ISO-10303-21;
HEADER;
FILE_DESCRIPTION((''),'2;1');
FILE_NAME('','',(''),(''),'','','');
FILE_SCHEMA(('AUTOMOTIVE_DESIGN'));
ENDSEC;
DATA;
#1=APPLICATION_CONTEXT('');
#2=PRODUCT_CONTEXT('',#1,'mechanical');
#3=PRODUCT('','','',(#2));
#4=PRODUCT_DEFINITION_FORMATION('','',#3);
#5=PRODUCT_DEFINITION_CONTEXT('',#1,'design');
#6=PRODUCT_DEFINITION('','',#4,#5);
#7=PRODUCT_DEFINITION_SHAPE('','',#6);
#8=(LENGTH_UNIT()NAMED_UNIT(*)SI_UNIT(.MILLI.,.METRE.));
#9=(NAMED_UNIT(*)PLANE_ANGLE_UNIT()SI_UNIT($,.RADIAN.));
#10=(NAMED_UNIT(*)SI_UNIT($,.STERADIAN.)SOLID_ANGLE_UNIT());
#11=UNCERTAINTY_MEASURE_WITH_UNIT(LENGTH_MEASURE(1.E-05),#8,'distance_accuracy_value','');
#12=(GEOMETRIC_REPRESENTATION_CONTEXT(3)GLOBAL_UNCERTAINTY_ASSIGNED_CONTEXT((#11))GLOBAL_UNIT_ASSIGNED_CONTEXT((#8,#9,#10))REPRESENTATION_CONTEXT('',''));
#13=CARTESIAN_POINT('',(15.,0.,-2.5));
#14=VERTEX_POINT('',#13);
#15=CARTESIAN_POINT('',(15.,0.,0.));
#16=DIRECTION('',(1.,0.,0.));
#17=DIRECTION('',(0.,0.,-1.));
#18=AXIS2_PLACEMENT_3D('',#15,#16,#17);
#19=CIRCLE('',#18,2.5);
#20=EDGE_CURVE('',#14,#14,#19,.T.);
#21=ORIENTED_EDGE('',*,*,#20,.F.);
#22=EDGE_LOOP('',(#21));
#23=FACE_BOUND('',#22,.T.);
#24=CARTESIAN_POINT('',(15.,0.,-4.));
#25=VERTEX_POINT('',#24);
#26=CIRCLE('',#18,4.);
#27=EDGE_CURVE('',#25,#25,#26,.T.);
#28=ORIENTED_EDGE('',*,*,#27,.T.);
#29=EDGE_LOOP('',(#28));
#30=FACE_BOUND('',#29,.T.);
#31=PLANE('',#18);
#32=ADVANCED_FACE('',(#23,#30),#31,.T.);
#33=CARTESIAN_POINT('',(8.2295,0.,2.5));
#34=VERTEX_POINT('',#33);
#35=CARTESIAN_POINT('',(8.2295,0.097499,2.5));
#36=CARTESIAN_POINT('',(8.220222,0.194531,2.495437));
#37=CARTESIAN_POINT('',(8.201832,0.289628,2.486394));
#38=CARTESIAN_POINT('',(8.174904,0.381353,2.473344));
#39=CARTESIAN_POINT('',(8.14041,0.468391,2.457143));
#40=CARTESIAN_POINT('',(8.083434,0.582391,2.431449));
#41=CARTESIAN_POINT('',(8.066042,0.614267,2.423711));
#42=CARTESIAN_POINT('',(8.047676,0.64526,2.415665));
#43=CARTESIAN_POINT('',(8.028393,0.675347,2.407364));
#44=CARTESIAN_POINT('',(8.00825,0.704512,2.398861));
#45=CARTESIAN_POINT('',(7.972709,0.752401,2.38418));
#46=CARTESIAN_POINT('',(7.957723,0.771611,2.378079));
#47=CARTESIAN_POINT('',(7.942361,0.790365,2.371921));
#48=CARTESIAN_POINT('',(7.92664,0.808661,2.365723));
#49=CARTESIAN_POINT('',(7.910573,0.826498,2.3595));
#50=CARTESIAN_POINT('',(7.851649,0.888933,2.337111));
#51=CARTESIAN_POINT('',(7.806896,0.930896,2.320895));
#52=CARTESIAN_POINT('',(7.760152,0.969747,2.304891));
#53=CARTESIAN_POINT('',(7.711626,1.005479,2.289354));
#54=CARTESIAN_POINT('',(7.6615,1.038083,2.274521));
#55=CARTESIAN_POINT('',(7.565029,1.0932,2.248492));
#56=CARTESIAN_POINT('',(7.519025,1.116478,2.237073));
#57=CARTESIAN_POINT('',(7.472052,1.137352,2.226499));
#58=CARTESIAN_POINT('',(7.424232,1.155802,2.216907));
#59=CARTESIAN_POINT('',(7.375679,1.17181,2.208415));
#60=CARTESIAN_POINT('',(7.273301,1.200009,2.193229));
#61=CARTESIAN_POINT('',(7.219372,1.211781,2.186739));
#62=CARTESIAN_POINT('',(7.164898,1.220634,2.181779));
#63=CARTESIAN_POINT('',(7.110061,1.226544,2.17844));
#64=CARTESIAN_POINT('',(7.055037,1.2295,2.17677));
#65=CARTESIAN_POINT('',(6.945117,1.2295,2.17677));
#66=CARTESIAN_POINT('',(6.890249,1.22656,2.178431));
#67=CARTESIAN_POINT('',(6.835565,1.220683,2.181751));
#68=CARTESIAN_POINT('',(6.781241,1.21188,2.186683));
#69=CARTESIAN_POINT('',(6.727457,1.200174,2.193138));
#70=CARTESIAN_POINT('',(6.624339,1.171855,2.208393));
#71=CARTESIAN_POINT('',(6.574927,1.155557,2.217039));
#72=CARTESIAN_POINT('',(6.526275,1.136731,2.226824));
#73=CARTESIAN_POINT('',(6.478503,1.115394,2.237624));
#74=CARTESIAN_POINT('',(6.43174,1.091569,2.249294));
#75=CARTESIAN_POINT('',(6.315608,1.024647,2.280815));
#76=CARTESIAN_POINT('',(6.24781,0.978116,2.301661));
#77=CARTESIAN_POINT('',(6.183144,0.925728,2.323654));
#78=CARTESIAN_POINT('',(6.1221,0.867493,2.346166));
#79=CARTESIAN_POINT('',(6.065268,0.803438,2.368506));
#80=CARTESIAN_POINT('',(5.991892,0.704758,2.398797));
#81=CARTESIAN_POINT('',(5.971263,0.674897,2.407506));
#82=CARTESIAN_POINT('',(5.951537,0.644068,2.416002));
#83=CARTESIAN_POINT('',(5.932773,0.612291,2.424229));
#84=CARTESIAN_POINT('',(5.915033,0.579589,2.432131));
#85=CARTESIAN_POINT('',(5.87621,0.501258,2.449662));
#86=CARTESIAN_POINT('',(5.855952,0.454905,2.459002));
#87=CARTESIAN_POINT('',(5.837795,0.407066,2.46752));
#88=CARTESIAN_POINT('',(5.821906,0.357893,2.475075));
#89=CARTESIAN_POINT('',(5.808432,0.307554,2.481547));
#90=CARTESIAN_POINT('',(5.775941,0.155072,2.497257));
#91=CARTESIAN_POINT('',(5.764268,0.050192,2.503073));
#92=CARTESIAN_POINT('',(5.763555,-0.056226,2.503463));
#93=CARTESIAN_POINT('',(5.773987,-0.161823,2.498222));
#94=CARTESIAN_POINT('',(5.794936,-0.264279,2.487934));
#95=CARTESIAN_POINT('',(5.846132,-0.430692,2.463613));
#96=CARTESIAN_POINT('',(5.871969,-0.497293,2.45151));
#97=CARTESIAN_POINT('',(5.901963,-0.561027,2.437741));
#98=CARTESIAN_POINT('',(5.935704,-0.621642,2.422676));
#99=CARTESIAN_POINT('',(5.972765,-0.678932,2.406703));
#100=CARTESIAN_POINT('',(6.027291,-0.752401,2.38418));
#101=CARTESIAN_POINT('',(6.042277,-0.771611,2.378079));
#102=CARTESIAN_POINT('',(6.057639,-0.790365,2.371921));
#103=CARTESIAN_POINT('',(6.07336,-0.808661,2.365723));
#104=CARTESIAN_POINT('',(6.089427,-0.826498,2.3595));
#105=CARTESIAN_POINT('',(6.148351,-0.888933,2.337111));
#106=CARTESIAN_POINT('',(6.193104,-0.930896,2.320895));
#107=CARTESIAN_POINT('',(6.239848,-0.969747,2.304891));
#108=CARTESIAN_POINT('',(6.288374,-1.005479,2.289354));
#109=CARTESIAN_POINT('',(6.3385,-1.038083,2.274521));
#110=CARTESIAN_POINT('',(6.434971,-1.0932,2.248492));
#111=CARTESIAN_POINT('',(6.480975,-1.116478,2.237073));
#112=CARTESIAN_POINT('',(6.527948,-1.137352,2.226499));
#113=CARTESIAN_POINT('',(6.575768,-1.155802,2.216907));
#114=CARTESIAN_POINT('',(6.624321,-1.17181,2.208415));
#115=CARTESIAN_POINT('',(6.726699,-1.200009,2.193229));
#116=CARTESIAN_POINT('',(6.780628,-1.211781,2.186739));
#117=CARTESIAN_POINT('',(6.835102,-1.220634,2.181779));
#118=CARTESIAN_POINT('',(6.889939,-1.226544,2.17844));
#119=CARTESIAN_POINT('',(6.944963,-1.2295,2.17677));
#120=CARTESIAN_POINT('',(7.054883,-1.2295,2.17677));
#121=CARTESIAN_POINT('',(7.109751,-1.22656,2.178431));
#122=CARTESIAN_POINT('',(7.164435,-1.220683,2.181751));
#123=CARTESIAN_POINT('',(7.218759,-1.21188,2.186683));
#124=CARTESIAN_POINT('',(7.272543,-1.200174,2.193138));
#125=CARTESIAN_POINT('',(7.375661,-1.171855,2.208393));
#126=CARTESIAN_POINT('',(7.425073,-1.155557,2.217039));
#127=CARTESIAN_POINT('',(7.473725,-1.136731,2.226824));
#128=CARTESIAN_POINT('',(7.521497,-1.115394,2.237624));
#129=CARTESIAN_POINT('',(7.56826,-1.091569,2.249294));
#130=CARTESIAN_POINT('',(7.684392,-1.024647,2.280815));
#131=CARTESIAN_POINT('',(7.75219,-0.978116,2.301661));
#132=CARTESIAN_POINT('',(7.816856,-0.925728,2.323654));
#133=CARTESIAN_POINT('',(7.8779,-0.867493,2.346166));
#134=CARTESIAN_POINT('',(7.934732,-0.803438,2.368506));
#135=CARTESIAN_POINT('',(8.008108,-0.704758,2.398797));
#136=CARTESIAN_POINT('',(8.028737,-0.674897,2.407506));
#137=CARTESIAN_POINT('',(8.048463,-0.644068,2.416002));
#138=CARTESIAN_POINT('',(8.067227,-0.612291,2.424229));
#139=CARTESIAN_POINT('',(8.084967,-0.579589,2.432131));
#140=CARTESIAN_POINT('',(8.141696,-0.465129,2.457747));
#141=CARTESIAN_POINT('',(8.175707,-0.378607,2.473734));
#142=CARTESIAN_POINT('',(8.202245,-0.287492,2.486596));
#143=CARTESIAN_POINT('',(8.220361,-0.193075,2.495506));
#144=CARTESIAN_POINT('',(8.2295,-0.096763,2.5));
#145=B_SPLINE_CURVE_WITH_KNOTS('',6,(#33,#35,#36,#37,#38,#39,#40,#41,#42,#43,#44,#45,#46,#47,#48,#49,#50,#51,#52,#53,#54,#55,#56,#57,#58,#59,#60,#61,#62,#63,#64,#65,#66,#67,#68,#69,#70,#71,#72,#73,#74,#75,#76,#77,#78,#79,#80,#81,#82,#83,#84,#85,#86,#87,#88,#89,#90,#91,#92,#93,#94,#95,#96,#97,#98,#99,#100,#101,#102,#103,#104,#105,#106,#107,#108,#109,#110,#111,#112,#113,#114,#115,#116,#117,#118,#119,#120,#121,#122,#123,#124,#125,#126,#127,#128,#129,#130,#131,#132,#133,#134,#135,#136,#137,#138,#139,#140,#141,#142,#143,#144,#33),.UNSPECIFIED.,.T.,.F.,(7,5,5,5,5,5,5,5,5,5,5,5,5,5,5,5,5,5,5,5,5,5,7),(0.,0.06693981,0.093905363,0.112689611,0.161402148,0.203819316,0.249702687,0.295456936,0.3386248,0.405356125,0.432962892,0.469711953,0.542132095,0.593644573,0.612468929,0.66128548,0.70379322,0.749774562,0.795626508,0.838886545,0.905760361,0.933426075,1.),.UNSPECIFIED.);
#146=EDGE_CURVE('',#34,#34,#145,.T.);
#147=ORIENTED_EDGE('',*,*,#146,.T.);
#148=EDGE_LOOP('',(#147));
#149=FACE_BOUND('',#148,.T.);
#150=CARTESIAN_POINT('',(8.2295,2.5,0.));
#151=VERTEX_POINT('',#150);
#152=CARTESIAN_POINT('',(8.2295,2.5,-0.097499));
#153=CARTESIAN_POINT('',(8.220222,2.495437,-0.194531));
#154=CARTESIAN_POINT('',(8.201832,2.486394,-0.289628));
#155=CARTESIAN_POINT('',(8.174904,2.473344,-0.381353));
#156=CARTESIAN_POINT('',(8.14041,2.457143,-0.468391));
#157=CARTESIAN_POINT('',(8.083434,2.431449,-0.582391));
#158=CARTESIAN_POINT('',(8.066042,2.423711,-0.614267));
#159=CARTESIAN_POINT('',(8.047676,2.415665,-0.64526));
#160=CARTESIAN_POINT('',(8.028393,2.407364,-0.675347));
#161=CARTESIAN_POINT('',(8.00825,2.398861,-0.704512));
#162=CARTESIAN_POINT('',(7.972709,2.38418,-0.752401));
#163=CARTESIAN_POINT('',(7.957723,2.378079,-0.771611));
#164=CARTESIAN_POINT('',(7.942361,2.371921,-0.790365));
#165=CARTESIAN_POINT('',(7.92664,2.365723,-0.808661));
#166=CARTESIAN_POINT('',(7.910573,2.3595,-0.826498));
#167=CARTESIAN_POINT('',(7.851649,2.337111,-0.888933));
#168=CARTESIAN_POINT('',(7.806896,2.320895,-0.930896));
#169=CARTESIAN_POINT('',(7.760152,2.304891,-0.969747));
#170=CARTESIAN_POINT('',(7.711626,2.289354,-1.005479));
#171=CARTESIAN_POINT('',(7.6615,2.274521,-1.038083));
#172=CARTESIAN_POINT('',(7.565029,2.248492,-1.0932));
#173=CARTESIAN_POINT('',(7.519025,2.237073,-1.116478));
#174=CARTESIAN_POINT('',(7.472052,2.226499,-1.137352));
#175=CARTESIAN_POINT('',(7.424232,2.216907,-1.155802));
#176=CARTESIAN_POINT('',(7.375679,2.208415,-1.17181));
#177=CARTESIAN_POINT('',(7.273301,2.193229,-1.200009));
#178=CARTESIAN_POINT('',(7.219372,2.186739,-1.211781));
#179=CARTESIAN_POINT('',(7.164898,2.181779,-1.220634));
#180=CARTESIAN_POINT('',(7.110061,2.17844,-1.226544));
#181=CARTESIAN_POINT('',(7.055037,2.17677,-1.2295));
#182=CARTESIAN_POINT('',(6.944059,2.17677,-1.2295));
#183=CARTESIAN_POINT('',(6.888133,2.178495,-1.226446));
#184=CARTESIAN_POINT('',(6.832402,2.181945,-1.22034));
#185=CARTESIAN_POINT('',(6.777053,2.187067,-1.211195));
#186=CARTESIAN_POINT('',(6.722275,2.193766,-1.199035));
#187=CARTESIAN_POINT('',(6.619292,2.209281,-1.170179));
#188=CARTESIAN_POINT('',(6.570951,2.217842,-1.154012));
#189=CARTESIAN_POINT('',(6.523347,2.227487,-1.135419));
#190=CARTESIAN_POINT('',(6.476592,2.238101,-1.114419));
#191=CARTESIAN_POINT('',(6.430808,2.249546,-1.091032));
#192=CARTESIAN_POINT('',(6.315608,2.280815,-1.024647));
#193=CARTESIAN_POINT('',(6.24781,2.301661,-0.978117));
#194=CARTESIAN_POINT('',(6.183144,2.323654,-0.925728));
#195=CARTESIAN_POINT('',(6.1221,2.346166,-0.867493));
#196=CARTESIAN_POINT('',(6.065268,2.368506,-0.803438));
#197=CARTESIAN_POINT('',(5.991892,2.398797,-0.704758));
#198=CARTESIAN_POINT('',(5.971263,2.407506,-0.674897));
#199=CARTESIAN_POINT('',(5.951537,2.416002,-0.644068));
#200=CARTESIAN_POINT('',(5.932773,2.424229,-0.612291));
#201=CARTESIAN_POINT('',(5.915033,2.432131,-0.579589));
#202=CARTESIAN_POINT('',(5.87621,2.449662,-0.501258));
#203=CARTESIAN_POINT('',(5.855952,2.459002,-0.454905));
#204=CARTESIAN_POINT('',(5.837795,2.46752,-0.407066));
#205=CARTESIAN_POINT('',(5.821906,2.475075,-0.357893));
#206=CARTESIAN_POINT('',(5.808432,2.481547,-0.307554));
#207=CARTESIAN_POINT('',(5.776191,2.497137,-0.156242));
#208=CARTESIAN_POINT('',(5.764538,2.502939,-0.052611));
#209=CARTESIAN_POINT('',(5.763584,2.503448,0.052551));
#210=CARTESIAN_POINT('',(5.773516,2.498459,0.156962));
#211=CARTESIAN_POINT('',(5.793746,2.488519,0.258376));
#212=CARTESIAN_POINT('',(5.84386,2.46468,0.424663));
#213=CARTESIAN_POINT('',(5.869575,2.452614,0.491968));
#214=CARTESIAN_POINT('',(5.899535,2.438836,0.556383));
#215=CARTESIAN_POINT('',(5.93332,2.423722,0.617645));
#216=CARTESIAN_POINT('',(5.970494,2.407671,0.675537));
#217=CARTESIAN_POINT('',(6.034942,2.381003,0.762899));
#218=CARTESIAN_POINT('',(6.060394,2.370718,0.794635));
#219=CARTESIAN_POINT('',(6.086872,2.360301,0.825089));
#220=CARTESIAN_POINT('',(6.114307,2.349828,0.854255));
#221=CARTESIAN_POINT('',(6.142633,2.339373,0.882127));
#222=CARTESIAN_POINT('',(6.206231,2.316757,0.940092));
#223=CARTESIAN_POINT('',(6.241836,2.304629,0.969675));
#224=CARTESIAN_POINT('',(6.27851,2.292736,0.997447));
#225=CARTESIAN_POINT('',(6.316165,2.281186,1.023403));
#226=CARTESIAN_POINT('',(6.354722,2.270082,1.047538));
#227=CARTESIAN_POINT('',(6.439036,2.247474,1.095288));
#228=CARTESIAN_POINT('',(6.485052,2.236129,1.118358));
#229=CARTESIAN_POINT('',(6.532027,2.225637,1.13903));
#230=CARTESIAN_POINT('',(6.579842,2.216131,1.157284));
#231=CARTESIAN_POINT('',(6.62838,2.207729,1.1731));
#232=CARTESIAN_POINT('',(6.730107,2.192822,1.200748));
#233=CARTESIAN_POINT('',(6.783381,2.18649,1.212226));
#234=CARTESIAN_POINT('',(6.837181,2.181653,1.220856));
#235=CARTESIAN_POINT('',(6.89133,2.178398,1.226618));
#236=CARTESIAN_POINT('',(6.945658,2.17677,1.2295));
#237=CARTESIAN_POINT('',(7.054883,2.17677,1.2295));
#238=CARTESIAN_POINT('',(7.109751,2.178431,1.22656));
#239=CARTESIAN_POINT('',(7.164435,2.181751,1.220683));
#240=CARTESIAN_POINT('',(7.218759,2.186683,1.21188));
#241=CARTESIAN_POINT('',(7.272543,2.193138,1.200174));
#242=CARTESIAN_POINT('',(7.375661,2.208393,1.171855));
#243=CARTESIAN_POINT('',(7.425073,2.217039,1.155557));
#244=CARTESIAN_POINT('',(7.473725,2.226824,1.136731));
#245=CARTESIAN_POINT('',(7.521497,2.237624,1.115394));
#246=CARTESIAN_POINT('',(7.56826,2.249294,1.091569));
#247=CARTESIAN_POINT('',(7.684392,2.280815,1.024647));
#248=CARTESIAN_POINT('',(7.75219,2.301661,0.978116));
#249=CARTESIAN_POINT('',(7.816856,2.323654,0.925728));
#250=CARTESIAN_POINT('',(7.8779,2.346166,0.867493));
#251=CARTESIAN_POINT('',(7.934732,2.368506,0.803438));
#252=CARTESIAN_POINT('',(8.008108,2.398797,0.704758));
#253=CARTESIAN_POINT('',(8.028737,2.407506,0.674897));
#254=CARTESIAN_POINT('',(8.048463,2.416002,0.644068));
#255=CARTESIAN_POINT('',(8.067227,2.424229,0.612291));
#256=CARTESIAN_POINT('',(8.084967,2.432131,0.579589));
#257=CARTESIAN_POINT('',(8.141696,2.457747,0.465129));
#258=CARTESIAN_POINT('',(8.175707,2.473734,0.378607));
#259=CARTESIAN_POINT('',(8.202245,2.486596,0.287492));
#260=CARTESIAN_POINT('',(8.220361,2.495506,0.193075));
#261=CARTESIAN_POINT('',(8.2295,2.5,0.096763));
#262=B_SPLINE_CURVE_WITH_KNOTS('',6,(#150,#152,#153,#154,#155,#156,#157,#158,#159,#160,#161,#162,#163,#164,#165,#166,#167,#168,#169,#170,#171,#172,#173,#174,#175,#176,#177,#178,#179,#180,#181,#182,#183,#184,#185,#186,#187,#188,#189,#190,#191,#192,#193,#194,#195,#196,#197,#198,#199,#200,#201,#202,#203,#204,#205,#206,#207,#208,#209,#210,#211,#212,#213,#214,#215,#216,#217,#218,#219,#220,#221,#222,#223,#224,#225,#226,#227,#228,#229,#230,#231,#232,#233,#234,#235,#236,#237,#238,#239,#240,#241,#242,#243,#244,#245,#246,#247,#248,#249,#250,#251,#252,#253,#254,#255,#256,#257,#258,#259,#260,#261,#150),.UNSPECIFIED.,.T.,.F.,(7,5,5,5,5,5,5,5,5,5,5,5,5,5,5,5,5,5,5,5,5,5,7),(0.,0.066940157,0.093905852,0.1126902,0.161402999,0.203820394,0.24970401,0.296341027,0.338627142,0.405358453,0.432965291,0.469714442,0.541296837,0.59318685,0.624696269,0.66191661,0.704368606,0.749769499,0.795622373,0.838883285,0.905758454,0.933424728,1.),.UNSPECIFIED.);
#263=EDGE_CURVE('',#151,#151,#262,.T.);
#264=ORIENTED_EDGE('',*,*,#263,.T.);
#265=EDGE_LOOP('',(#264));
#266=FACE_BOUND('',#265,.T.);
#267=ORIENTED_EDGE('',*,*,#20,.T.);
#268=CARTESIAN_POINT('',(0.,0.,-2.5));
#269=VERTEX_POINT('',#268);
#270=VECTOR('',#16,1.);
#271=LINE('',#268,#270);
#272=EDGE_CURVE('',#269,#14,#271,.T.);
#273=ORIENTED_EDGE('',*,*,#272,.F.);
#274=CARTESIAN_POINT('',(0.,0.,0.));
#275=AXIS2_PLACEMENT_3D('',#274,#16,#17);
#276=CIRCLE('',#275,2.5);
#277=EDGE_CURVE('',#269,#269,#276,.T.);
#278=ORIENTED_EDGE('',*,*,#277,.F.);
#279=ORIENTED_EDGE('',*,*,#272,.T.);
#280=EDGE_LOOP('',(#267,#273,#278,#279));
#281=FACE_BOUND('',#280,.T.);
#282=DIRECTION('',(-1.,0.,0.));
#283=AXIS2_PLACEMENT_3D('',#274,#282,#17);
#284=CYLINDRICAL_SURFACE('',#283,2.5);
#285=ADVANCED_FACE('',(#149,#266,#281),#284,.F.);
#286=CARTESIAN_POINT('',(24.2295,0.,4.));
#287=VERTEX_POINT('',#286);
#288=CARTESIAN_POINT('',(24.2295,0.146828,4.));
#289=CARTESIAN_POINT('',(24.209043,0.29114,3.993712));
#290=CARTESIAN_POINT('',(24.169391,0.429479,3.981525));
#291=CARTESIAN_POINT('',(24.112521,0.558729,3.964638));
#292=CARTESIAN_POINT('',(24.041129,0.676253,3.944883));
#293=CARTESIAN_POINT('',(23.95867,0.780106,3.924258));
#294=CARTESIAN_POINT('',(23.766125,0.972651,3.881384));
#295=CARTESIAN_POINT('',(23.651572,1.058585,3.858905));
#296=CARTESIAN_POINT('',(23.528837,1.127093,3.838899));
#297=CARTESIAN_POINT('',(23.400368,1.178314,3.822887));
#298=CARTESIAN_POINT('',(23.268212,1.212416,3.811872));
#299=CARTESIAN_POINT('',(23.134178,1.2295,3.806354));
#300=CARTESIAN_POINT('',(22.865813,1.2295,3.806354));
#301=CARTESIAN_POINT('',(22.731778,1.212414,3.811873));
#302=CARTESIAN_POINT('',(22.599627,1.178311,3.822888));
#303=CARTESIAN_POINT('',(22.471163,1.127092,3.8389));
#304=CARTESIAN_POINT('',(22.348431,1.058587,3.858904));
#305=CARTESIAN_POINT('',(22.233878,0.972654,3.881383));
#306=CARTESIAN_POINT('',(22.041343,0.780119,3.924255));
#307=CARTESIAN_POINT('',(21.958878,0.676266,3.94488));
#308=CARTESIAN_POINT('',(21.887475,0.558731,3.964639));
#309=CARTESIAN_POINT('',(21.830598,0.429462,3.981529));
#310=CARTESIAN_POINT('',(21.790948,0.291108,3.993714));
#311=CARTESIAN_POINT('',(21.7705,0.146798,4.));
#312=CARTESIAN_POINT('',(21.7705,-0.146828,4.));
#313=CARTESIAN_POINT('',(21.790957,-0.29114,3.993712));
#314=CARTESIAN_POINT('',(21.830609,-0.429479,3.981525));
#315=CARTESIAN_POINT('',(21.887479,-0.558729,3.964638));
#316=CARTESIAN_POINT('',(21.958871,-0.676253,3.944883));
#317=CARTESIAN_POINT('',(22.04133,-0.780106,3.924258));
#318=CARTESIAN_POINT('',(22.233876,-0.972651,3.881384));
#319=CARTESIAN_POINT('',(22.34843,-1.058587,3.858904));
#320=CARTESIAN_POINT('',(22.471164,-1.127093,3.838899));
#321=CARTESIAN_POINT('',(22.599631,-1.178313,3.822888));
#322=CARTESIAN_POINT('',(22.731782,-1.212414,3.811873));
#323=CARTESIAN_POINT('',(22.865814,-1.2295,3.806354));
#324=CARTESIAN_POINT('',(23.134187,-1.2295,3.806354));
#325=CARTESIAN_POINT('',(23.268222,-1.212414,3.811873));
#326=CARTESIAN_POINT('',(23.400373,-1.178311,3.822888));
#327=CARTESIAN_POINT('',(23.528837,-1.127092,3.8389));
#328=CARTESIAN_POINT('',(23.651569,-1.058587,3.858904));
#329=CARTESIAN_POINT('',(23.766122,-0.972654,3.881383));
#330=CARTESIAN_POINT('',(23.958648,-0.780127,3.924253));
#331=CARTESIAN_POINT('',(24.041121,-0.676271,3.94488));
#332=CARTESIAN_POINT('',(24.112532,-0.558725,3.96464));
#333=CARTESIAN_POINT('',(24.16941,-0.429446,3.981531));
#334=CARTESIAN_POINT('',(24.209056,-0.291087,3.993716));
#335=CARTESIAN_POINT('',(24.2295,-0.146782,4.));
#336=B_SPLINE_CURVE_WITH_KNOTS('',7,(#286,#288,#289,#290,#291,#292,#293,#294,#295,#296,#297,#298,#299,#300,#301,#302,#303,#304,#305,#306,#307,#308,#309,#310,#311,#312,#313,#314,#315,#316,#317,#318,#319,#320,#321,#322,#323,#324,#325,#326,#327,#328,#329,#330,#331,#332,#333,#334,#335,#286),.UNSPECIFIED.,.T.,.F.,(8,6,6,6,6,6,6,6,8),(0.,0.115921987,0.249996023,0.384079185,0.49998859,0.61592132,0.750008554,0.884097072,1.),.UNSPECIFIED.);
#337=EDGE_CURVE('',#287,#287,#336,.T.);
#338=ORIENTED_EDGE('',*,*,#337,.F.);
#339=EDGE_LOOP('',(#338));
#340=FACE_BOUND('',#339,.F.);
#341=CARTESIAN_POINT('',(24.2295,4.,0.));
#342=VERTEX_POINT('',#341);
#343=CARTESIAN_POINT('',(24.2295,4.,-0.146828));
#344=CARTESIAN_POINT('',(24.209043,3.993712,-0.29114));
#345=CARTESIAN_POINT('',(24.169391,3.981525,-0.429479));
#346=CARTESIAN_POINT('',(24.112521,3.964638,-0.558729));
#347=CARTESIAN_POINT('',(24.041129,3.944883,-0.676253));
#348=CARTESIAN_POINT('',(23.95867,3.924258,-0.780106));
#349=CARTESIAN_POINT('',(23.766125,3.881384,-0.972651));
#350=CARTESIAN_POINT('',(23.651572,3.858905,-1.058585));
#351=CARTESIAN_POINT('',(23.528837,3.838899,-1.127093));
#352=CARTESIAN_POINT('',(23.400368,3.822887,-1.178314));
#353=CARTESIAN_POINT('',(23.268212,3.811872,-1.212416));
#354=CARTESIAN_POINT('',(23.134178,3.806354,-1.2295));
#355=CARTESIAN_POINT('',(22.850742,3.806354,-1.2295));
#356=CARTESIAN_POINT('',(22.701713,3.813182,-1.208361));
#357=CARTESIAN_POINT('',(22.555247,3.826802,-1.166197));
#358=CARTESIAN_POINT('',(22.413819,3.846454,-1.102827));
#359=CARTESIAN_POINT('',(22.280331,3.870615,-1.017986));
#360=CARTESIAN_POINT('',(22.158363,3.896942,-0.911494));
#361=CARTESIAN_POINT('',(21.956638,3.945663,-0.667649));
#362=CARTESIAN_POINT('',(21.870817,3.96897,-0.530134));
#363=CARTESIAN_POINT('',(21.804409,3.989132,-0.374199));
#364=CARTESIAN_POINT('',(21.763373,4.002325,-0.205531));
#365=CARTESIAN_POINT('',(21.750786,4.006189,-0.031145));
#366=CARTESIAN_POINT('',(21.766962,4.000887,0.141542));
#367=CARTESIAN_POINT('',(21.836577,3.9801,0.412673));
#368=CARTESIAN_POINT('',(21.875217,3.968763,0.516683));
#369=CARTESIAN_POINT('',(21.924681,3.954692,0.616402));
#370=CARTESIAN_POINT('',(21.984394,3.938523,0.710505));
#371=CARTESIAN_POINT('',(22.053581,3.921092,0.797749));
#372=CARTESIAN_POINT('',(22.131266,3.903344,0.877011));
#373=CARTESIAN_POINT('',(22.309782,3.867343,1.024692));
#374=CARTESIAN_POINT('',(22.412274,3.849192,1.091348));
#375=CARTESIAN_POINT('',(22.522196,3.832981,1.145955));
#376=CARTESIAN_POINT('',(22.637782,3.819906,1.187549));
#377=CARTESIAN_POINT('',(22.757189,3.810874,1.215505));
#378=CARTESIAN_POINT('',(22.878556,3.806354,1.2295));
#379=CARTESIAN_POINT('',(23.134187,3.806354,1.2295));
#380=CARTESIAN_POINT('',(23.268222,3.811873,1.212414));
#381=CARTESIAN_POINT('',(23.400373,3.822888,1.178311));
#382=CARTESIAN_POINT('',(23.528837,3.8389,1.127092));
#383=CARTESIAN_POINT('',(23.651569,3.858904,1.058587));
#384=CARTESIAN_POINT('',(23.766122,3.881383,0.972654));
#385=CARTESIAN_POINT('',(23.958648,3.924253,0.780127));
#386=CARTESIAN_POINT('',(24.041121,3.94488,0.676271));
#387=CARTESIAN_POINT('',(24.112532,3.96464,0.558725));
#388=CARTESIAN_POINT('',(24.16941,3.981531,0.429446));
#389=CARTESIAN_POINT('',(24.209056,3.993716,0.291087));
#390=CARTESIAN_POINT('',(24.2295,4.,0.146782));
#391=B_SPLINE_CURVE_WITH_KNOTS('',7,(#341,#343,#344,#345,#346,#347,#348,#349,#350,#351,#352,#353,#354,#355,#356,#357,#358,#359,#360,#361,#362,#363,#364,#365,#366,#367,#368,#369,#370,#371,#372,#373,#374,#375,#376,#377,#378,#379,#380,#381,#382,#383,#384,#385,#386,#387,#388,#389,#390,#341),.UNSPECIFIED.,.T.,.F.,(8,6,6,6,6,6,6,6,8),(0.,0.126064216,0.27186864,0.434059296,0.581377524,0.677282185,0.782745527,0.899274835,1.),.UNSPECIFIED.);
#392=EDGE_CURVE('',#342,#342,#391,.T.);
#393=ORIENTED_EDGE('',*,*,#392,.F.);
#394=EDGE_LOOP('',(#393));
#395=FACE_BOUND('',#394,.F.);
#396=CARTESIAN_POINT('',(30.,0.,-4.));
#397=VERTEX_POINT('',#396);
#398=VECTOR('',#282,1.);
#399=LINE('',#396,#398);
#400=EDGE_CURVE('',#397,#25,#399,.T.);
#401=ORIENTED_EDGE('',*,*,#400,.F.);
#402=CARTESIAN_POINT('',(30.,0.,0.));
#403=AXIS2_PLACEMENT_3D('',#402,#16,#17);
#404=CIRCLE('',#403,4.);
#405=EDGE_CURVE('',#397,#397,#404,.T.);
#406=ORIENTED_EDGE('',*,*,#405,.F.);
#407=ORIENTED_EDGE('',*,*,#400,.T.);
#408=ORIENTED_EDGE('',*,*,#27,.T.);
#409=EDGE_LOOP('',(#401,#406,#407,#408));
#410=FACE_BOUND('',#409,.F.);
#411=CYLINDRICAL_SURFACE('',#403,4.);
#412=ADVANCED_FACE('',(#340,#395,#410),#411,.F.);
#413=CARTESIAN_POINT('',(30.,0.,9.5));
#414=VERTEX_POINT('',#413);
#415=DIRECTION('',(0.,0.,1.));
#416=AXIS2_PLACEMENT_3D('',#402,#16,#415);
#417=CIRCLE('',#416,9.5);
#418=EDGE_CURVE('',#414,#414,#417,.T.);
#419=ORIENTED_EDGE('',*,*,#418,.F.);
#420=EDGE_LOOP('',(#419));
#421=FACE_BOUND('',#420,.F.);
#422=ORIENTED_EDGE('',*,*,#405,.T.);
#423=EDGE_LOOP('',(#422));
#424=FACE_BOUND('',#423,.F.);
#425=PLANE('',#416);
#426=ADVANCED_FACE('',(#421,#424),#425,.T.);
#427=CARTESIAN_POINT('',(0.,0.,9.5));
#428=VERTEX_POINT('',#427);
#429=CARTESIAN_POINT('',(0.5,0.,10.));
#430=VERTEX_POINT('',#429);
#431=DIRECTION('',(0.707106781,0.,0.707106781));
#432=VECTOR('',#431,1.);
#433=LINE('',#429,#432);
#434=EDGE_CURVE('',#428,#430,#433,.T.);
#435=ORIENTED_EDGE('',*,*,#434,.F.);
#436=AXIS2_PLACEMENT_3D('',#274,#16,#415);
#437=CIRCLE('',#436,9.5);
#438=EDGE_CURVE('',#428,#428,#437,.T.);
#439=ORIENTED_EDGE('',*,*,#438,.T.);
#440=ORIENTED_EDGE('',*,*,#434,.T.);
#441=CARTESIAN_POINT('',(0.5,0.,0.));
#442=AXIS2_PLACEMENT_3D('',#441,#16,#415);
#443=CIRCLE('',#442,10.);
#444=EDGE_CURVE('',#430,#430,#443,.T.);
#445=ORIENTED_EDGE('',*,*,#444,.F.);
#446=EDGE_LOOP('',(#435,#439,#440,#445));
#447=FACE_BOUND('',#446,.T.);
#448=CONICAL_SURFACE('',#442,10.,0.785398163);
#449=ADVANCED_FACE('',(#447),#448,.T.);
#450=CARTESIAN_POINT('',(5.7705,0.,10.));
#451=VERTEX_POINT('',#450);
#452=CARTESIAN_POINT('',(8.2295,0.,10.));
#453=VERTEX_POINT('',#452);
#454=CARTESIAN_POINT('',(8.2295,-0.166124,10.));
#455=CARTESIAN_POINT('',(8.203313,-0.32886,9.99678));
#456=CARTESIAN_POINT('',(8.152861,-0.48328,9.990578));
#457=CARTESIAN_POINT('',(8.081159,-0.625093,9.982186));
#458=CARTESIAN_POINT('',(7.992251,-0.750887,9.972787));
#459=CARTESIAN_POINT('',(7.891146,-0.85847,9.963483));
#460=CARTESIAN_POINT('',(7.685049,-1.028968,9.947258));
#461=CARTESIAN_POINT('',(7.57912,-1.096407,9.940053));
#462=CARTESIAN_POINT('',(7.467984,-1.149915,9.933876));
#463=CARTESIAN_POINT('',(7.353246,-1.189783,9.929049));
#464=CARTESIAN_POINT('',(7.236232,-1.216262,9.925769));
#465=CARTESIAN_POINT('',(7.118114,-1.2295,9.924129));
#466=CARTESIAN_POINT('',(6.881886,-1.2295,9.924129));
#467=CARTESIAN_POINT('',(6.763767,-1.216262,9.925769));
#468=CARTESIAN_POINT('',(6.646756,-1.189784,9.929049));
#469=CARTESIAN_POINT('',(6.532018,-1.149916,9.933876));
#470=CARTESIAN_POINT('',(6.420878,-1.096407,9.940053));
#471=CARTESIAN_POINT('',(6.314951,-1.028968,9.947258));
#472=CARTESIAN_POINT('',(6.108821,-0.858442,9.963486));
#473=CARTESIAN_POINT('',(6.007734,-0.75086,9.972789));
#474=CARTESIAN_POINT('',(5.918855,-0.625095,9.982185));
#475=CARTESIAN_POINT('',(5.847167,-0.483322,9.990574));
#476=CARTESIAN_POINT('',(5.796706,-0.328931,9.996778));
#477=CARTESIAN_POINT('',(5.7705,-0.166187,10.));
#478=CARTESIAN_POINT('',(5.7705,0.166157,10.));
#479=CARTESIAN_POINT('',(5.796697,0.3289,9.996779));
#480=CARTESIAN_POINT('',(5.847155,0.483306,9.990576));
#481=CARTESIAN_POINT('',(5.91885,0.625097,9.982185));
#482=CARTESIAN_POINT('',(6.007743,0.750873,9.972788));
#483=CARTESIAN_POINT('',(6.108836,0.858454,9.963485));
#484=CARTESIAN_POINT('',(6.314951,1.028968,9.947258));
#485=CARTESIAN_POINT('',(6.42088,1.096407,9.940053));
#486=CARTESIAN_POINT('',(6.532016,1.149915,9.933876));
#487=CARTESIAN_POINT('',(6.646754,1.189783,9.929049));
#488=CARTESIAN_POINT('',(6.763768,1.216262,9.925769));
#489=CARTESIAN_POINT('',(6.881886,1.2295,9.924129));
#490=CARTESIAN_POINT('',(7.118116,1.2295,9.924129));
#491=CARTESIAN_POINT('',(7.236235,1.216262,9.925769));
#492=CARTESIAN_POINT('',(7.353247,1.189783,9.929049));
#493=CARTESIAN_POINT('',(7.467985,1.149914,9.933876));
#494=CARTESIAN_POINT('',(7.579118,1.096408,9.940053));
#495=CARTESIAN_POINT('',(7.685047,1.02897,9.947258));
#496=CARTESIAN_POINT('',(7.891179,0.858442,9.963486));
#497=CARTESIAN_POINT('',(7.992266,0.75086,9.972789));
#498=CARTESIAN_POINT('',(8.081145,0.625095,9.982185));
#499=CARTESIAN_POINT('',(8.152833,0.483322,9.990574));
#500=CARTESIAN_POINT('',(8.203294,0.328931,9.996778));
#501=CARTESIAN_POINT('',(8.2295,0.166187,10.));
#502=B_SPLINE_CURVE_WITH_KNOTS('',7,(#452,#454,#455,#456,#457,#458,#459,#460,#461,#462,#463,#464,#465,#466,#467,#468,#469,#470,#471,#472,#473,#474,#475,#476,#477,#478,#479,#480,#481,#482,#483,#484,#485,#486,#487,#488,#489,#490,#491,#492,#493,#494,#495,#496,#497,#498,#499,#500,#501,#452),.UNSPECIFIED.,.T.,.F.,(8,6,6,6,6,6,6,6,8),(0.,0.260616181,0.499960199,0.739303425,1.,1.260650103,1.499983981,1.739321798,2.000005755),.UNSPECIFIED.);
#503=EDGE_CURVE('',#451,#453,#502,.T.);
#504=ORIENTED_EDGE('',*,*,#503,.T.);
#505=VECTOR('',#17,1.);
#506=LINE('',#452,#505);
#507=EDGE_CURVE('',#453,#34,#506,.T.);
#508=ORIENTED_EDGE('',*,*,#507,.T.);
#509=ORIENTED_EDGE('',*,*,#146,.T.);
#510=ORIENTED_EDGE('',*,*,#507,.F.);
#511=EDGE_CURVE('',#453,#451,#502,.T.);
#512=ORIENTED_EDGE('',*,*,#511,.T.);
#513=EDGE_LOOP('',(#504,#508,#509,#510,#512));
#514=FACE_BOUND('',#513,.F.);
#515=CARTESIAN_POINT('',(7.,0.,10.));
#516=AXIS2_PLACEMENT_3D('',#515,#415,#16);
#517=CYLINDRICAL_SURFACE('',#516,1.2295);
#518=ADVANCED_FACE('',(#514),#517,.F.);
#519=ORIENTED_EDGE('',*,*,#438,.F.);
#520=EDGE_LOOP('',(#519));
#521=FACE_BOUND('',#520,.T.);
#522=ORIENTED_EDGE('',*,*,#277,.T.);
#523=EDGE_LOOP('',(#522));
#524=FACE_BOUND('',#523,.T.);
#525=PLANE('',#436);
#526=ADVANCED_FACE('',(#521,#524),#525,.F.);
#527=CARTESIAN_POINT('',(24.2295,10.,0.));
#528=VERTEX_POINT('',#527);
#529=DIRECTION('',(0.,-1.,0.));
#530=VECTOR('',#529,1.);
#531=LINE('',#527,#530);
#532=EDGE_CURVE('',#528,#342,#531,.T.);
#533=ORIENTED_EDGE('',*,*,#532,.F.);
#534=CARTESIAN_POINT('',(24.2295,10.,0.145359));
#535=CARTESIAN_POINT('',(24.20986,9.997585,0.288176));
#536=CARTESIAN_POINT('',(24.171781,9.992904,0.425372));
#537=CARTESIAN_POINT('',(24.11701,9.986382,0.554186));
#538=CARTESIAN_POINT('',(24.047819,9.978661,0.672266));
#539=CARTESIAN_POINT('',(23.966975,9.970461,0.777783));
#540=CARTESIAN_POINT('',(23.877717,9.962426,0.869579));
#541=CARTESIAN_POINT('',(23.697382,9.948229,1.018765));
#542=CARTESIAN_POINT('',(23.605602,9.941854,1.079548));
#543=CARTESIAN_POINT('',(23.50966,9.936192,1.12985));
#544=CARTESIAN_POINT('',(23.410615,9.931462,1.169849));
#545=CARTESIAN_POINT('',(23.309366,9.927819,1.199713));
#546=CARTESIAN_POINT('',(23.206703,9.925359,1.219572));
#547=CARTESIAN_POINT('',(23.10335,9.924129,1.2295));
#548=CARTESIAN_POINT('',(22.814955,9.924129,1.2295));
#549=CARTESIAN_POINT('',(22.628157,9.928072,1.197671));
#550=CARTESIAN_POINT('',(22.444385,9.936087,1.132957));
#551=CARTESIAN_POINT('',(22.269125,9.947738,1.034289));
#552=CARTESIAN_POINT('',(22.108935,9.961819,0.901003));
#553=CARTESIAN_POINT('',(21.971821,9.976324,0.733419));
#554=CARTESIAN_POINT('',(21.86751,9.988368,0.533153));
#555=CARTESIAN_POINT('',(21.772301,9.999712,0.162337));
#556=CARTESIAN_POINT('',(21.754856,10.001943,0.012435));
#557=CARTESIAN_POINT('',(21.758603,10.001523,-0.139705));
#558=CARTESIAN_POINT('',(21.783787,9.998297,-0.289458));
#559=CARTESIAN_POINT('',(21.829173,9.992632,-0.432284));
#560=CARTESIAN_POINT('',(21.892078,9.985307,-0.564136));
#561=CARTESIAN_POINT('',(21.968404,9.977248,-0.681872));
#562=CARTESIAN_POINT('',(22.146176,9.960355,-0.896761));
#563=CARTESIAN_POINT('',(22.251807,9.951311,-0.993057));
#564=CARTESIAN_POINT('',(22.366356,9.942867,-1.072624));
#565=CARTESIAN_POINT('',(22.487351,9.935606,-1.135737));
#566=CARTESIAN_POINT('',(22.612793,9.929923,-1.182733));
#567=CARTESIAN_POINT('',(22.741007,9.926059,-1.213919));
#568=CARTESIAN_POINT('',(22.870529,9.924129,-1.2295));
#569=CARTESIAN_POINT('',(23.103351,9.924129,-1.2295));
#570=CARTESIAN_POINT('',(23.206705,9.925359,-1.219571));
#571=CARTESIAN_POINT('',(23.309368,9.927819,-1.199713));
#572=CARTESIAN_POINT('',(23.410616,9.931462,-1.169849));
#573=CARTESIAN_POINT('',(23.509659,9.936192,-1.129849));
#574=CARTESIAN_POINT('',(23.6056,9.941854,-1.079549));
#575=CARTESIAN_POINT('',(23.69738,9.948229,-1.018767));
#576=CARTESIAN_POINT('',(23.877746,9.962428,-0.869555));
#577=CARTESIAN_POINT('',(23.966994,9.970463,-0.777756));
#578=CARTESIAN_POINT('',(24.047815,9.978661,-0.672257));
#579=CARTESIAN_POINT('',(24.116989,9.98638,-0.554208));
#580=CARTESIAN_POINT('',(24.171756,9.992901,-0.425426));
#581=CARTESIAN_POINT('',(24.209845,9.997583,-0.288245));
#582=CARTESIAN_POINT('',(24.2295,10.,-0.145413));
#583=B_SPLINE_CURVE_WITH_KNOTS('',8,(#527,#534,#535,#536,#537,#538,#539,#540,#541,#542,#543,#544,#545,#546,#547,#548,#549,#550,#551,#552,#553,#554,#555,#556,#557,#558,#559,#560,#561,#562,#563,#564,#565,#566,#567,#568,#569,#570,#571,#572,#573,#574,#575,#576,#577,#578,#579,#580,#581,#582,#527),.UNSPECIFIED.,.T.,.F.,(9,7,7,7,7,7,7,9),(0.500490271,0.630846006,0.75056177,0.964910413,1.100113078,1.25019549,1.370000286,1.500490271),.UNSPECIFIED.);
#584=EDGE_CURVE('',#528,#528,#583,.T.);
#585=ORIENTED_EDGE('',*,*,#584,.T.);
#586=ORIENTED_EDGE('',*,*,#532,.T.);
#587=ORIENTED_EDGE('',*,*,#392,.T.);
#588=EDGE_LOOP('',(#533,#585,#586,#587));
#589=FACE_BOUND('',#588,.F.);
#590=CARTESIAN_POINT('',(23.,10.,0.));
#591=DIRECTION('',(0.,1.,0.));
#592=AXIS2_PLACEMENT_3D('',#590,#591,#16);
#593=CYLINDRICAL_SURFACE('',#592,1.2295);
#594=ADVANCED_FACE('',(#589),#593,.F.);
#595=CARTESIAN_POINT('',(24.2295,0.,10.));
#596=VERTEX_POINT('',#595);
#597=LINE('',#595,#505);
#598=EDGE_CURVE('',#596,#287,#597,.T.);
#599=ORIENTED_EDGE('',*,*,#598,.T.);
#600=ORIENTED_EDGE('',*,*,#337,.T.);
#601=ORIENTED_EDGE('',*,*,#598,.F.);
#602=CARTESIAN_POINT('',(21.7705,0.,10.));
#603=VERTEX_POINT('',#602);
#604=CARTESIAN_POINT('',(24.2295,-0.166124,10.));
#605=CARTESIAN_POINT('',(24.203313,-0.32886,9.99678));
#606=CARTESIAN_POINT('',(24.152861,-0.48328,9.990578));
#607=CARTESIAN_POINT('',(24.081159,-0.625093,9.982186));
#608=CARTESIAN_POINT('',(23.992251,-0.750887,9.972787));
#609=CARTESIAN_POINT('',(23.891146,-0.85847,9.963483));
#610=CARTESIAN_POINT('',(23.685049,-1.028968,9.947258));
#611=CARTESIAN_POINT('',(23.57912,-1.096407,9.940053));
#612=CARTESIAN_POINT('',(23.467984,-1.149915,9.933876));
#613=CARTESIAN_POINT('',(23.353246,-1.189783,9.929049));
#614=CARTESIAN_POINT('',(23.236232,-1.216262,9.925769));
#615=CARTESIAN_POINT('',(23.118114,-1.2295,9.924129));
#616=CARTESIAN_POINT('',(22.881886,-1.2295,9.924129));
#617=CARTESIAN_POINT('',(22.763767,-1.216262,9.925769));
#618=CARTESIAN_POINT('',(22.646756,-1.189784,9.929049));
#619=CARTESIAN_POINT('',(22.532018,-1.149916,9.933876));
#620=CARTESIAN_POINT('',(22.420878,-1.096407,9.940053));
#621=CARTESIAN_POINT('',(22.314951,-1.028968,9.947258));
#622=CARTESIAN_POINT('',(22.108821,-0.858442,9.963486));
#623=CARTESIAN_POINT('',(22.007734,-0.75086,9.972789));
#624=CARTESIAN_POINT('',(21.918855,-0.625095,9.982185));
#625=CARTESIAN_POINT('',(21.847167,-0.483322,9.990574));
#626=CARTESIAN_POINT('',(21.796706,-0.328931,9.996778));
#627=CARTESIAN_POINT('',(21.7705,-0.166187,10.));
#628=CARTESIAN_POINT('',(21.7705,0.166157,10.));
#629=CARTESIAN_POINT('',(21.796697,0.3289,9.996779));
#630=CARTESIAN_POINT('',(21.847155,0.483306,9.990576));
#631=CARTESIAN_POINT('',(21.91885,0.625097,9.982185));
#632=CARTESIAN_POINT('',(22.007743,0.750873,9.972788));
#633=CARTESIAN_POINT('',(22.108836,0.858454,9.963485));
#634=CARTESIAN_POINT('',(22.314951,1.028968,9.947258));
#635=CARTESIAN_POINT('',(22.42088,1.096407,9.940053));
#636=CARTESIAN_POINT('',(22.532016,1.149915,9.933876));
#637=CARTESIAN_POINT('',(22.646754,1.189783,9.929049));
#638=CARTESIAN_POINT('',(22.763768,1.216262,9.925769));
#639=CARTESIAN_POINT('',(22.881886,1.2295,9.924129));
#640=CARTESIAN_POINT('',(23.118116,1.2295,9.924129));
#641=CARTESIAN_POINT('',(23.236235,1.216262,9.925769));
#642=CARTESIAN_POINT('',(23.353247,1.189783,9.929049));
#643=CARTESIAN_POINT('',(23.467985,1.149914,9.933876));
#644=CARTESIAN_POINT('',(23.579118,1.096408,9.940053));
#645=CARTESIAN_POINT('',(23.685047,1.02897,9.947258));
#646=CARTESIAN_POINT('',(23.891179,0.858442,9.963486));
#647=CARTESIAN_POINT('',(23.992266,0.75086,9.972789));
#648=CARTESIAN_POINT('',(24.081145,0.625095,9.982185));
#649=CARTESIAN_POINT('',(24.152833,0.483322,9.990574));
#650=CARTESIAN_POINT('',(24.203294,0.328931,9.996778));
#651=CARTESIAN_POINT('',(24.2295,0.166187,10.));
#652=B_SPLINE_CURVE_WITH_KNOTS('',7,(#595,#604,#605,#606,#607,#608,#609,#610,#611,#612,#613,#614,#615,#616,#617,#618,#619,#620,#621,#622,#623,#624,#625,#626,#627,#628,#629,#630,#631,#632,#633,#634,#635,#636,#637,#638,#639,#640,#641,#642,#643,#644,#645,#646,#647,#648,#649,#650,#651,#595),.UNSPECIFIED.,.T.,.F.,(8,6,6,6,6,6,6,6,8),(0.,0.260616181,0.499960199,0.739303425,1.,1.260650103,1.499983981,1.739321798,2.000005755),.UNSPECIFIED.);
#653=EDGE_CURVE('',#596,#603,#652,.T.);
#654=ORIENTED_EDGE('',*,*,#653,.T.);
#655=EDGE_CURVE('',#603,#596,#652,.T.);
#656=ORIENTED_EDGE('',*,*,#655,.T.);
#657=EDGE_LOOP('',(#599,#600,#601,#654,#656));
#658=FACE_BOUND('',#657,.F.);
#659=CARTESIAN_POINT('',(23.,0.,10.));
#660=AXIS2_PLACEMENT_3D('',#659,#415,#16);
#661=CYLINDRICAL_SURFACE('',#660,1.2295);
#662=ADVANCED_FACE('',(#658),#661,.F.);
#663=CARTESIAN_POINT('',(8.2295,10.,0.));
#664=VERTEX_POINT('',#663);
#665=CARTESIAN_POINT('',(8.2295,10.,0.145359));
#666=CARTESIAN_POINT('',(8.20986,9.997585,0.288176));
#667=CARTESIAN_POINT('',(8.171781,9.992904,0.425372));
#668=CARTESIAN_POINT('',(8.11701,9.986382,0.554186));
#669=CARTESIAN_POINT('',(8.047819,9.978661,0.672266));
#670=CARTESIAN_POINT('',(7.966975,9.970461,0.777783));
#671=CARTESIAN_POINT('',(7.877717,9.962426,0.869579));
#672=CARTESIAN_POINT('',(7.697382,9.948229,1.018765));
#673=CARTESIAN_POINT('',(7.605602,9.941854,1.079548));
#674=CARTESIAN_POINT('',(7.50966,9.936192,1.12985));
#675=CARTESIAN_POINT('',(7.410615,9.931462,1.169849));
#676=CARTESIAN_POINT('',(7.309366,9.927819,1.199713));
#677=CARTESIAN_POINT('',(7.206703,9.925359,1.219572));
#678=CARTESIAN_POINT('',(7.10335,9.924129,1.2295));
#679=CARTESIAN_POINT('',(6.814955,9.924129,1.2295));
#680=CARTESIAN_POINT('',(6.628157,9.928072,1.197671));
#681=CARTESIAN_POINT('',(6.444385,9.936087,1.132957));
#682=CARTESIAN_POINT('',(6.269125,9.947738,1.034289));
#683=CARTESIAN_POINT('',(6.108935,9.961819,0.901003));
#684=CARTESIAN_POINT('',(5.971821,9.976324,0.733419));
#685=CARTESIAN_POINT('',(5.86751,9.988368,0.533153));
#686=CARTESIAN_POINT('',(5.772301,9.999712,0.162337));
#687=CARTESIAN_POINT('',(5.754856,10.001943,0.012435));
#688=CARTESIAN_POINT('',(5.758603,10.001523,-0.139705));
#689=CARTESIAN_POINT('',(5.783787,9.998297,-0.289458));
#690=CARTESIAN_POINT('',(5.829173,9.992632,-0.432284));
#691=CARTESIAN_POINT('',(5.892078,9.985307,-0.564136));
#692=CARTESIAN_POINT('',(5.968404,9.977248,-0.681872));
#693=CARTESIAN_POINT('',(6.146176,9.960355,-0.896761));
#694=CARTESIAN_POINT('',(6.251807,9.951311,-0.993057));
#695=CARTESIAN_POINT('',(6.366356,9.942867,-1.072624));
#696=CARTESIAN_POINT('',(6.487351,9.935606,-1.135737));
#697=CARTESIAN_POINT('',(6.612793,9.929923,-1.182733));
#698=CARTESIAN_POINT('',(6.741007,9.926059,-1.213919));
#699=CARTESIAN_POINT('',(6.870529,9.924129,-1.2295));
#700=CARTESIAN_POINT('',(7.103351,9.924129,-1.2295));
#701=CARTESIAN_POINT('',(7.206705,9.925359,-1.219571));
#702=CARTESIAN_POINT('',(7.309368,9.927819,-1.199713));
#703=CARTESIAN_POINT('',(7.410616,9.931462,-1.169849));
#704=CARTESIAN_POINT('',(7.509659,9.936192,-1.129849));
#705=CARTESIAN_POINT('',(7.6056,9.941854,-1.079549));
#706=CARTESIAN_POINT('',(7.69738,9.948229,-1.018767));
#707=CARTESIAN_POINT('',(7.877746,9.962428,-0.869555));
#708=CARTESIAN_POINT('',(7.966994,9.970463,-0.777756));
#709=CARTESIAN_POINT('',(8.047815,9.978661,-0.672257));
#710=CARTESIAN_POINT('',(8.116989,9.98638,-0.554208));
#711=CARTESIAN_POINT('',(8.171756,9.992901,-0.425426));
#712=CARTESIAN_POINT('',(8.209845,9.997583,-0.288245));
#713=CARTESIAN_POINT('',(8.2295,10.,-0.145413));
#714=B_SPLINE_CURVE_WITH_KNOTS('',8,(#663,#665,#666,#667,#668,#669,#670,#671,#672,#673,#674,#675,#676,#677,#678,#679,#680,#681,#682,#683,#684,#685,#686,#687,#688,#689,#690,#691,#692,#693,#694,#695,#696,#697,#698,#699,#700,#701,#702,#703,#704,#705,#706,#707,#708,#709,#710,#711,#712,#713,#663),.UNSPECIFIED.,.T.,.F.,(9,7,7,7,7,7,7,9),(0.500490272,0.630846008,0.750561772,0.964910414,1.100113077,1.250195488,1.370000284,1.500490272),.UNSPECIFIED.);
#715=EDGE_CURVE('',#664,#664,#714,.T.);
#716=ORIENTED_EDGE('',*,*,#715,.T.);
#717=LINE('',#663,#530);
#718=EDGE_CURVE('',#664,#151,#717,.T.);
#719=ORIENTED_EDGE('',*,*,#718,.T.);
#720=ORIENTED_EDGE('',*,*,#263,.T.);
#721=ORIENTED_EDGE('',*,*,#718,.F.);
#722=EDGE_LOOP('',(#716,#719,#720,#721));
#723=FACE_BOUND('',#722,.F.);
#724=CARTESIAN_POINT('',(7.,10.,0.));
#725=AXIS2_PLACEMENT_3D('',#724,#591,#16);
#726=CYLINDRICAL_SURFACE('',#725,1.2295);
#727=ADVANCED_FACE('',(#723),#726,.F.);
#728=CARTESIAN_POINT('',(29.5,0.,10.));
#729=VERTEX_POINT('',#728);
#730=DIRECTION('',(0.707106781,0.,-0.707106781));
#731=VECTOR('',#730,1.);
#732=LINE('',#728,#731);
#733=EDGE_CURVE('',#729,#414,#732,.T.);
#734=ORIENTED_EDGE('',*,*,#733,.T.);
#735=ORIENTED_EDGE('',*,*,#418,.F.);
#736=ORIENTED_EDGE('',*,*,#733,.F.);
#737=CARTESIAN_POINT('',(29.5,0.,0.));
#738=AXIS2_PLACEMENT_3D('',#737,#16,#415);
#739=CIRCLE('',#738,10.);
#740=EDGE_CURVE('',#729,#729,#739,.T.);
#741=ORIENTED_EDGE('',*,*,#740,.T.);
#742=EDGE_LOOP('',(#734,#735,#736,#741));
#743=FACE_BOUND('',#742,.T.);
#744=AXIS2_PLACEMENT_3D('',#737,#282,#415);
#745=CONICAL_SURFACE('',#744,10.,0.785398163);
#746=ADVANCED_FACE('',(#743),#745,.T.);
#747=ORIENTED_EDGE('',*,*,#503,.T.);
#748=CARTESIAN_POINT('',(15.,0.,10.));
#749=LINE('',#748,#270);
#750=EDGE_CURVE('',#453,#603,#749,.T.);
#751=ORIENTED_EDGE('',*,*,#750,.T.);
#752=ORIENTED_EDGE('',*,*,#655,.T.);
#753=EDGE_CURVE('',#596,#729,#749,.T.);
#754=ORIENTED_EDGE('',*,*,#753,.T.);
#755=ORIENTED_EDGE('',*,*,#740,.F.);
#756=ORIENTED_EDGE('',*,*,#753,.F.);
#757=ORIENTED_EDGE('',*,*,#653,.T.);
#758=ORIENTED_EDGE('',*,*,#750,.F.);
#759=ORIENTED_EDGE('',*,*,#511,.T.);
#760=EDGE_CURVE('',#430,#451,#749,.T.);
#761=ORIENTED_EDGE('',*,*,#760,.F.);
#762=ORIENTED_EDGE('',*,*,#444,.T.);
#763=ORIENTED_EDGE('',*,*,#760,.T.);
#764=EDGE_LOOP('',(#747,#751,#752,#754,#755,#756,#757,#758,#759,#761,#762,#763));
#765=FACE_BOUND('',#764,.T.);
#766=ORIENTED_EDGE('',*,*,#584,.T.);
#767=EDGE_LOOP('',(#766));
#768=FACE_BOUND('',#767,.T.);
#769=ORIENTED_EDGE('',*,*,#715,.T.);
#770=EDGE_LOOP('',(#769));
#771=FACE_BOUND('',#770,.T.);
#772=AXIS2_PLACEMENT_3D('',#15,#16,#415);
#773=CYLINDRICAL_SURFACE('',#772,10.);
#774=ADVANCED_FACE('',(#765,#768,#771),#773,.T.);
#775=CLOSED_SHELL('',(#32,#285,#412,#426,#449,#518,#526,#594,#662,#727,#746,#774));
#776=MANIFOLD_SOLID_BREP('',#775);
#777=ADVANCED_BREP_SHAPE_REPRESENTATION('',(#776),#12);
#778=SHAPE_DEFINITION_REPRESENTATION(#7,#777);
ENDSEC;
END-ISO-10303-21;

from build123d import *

# Parameters (mm, degrees)
SKETCH1_W          = 30
SKETCH1_H          = 10
SKETCH2_R          = 2.5
CUT_EXTRUDE1_DEPTH = 15
SKETCH3_R          = 4
CUT_EXTRUDE2_DEPTH = 15
TAP1_REACH         = 39.417
TAP1_BORE_R        = 1.2295
TAP2_REACH         = 39.417
TAP2_BORE_R        = 1.2295
CHAMFER1_SIZE      = 0.5


with BuildPart() as part:
    # Sketch1 → Revolve1 (revolve)
    with BuildSketch(Plane.XY, mode=Mode.PRIVATE) as revolve1_sk:
        with Locations((15, 5)):
            Rectangle(SKETCH1_W, SKETCH1_H)
    revolve(revolve1_sk.sketch.rotate(Axis((0, 0, 0), (1, 0, 0)), 90), axis=Axis((0, 0, 0), (1, 0, 0)))

    # Sketch2 → Cut-Extrude1 (cut)
    with BuildSketch(Plane(origin=(0, 0, 0), x_dir=(0, 0, -1), z_dir=(1, 0, 0))):
        Circle(SKETCH2_R)
    extrude(amount=CUT_EXTRUDE1_DEPTH, mode=Mode.SUBTRACT)

    # Sketch3 → Cut-Extrude2 (cut)
    with BuildSketch(Plane(origin=(30, 0, 0), x_dir=(0, 0, -1), z_dir=(1, 0, 0))):
        Circle(SKETCH3_R)
    extrude(amount=-CUT_EXTRUDE2_DEPTH, mode=Mode.SUBTRACT)

    # Tap1 bore → Tap1 (cut, up to next)
    with BuildSketch(Plane.XY.offset(10), mode=Mode.PRIVATE) as tap1_sk1:
        with Locations((7, 0)):
            Circle(TAP1_BORE_R)
    tap1_tool1 = extrude(tap1_sk1.sketch, amount=-TAP1_REACH, mode=Mode.PRIVATE) & part.part
    # Tap1 bore → Tap1 (cut, up to next)
    with BuildSketch(Plane.XY.offset(10), mode=Mode.PRIVATE) as tap1_sk2:
        with Locations((23, 0)):
            Circle(TAP1_BORE_R)
    tap1_tool2 = extrude(tap1_sk2.sketch, amount=-TAP1_REACH, mode=Mode.PRIVATE) & part.part
    add(tap1_tool1.solids().sort_by_distance((7, 0, 10))[0], mode=Mode.SUBTRACT)
    add(tap1_tool2.solids().sort_by_distance((23, 0, 10))[0], mode=Mode.SUBTRACT)

    # Tap2 bore → Tap2 (cut, up to next)
    with BuildSketch(Plane(origin=(0, 10, 0), x_dir=(1, 0, 0), z_dir=(0, 1, 0)), mode=Mode.PRIVATE) as tap2_sk1:
        with Locations((7, 0)):
            Circle(TAP2_BORE_R)
    tap2_tool1 = extrude(tap2_sk1.sketch, amount=-TAP2_REACH, mode=Mode.PRIVATE) & part.part
    # Tap2 bore → Tap2 (cut, up to next)
    with BuildSketch(Plane(origin=(0, 10, 0), x_dir=(1, 0, 0), z_dir=(0, 1, 0)), mode=Mode.PRIVATE) as tap2_sk2:
        with Locations((23, 0)):
            Circle(TAP2_BORE_R)
    tap2_tool2 = extrude(tap2_sk2.sketch, amount=-TAP2_REACH, mode=Mode.PRIVATE) & part.part
    add(tap2_tool1.solids().sort_by_distance((7, 10, 0))[0], mode=Mode.SUBTRACT)
    add(tap2_tool2.solids().sort_by_distance((23, 10, 0))[0], mode=Mode.SUBTRACT)

    # Chamfer1
    chamfer1_edges = [part.edges().sort_by_distance(p)[0] for p in [
        (30, 0, -10),
        (0, 0, -10),
    ]]
    chamfer(chamfer1_edges, length=CHAMFER1_SIZE)


solid = part.part
